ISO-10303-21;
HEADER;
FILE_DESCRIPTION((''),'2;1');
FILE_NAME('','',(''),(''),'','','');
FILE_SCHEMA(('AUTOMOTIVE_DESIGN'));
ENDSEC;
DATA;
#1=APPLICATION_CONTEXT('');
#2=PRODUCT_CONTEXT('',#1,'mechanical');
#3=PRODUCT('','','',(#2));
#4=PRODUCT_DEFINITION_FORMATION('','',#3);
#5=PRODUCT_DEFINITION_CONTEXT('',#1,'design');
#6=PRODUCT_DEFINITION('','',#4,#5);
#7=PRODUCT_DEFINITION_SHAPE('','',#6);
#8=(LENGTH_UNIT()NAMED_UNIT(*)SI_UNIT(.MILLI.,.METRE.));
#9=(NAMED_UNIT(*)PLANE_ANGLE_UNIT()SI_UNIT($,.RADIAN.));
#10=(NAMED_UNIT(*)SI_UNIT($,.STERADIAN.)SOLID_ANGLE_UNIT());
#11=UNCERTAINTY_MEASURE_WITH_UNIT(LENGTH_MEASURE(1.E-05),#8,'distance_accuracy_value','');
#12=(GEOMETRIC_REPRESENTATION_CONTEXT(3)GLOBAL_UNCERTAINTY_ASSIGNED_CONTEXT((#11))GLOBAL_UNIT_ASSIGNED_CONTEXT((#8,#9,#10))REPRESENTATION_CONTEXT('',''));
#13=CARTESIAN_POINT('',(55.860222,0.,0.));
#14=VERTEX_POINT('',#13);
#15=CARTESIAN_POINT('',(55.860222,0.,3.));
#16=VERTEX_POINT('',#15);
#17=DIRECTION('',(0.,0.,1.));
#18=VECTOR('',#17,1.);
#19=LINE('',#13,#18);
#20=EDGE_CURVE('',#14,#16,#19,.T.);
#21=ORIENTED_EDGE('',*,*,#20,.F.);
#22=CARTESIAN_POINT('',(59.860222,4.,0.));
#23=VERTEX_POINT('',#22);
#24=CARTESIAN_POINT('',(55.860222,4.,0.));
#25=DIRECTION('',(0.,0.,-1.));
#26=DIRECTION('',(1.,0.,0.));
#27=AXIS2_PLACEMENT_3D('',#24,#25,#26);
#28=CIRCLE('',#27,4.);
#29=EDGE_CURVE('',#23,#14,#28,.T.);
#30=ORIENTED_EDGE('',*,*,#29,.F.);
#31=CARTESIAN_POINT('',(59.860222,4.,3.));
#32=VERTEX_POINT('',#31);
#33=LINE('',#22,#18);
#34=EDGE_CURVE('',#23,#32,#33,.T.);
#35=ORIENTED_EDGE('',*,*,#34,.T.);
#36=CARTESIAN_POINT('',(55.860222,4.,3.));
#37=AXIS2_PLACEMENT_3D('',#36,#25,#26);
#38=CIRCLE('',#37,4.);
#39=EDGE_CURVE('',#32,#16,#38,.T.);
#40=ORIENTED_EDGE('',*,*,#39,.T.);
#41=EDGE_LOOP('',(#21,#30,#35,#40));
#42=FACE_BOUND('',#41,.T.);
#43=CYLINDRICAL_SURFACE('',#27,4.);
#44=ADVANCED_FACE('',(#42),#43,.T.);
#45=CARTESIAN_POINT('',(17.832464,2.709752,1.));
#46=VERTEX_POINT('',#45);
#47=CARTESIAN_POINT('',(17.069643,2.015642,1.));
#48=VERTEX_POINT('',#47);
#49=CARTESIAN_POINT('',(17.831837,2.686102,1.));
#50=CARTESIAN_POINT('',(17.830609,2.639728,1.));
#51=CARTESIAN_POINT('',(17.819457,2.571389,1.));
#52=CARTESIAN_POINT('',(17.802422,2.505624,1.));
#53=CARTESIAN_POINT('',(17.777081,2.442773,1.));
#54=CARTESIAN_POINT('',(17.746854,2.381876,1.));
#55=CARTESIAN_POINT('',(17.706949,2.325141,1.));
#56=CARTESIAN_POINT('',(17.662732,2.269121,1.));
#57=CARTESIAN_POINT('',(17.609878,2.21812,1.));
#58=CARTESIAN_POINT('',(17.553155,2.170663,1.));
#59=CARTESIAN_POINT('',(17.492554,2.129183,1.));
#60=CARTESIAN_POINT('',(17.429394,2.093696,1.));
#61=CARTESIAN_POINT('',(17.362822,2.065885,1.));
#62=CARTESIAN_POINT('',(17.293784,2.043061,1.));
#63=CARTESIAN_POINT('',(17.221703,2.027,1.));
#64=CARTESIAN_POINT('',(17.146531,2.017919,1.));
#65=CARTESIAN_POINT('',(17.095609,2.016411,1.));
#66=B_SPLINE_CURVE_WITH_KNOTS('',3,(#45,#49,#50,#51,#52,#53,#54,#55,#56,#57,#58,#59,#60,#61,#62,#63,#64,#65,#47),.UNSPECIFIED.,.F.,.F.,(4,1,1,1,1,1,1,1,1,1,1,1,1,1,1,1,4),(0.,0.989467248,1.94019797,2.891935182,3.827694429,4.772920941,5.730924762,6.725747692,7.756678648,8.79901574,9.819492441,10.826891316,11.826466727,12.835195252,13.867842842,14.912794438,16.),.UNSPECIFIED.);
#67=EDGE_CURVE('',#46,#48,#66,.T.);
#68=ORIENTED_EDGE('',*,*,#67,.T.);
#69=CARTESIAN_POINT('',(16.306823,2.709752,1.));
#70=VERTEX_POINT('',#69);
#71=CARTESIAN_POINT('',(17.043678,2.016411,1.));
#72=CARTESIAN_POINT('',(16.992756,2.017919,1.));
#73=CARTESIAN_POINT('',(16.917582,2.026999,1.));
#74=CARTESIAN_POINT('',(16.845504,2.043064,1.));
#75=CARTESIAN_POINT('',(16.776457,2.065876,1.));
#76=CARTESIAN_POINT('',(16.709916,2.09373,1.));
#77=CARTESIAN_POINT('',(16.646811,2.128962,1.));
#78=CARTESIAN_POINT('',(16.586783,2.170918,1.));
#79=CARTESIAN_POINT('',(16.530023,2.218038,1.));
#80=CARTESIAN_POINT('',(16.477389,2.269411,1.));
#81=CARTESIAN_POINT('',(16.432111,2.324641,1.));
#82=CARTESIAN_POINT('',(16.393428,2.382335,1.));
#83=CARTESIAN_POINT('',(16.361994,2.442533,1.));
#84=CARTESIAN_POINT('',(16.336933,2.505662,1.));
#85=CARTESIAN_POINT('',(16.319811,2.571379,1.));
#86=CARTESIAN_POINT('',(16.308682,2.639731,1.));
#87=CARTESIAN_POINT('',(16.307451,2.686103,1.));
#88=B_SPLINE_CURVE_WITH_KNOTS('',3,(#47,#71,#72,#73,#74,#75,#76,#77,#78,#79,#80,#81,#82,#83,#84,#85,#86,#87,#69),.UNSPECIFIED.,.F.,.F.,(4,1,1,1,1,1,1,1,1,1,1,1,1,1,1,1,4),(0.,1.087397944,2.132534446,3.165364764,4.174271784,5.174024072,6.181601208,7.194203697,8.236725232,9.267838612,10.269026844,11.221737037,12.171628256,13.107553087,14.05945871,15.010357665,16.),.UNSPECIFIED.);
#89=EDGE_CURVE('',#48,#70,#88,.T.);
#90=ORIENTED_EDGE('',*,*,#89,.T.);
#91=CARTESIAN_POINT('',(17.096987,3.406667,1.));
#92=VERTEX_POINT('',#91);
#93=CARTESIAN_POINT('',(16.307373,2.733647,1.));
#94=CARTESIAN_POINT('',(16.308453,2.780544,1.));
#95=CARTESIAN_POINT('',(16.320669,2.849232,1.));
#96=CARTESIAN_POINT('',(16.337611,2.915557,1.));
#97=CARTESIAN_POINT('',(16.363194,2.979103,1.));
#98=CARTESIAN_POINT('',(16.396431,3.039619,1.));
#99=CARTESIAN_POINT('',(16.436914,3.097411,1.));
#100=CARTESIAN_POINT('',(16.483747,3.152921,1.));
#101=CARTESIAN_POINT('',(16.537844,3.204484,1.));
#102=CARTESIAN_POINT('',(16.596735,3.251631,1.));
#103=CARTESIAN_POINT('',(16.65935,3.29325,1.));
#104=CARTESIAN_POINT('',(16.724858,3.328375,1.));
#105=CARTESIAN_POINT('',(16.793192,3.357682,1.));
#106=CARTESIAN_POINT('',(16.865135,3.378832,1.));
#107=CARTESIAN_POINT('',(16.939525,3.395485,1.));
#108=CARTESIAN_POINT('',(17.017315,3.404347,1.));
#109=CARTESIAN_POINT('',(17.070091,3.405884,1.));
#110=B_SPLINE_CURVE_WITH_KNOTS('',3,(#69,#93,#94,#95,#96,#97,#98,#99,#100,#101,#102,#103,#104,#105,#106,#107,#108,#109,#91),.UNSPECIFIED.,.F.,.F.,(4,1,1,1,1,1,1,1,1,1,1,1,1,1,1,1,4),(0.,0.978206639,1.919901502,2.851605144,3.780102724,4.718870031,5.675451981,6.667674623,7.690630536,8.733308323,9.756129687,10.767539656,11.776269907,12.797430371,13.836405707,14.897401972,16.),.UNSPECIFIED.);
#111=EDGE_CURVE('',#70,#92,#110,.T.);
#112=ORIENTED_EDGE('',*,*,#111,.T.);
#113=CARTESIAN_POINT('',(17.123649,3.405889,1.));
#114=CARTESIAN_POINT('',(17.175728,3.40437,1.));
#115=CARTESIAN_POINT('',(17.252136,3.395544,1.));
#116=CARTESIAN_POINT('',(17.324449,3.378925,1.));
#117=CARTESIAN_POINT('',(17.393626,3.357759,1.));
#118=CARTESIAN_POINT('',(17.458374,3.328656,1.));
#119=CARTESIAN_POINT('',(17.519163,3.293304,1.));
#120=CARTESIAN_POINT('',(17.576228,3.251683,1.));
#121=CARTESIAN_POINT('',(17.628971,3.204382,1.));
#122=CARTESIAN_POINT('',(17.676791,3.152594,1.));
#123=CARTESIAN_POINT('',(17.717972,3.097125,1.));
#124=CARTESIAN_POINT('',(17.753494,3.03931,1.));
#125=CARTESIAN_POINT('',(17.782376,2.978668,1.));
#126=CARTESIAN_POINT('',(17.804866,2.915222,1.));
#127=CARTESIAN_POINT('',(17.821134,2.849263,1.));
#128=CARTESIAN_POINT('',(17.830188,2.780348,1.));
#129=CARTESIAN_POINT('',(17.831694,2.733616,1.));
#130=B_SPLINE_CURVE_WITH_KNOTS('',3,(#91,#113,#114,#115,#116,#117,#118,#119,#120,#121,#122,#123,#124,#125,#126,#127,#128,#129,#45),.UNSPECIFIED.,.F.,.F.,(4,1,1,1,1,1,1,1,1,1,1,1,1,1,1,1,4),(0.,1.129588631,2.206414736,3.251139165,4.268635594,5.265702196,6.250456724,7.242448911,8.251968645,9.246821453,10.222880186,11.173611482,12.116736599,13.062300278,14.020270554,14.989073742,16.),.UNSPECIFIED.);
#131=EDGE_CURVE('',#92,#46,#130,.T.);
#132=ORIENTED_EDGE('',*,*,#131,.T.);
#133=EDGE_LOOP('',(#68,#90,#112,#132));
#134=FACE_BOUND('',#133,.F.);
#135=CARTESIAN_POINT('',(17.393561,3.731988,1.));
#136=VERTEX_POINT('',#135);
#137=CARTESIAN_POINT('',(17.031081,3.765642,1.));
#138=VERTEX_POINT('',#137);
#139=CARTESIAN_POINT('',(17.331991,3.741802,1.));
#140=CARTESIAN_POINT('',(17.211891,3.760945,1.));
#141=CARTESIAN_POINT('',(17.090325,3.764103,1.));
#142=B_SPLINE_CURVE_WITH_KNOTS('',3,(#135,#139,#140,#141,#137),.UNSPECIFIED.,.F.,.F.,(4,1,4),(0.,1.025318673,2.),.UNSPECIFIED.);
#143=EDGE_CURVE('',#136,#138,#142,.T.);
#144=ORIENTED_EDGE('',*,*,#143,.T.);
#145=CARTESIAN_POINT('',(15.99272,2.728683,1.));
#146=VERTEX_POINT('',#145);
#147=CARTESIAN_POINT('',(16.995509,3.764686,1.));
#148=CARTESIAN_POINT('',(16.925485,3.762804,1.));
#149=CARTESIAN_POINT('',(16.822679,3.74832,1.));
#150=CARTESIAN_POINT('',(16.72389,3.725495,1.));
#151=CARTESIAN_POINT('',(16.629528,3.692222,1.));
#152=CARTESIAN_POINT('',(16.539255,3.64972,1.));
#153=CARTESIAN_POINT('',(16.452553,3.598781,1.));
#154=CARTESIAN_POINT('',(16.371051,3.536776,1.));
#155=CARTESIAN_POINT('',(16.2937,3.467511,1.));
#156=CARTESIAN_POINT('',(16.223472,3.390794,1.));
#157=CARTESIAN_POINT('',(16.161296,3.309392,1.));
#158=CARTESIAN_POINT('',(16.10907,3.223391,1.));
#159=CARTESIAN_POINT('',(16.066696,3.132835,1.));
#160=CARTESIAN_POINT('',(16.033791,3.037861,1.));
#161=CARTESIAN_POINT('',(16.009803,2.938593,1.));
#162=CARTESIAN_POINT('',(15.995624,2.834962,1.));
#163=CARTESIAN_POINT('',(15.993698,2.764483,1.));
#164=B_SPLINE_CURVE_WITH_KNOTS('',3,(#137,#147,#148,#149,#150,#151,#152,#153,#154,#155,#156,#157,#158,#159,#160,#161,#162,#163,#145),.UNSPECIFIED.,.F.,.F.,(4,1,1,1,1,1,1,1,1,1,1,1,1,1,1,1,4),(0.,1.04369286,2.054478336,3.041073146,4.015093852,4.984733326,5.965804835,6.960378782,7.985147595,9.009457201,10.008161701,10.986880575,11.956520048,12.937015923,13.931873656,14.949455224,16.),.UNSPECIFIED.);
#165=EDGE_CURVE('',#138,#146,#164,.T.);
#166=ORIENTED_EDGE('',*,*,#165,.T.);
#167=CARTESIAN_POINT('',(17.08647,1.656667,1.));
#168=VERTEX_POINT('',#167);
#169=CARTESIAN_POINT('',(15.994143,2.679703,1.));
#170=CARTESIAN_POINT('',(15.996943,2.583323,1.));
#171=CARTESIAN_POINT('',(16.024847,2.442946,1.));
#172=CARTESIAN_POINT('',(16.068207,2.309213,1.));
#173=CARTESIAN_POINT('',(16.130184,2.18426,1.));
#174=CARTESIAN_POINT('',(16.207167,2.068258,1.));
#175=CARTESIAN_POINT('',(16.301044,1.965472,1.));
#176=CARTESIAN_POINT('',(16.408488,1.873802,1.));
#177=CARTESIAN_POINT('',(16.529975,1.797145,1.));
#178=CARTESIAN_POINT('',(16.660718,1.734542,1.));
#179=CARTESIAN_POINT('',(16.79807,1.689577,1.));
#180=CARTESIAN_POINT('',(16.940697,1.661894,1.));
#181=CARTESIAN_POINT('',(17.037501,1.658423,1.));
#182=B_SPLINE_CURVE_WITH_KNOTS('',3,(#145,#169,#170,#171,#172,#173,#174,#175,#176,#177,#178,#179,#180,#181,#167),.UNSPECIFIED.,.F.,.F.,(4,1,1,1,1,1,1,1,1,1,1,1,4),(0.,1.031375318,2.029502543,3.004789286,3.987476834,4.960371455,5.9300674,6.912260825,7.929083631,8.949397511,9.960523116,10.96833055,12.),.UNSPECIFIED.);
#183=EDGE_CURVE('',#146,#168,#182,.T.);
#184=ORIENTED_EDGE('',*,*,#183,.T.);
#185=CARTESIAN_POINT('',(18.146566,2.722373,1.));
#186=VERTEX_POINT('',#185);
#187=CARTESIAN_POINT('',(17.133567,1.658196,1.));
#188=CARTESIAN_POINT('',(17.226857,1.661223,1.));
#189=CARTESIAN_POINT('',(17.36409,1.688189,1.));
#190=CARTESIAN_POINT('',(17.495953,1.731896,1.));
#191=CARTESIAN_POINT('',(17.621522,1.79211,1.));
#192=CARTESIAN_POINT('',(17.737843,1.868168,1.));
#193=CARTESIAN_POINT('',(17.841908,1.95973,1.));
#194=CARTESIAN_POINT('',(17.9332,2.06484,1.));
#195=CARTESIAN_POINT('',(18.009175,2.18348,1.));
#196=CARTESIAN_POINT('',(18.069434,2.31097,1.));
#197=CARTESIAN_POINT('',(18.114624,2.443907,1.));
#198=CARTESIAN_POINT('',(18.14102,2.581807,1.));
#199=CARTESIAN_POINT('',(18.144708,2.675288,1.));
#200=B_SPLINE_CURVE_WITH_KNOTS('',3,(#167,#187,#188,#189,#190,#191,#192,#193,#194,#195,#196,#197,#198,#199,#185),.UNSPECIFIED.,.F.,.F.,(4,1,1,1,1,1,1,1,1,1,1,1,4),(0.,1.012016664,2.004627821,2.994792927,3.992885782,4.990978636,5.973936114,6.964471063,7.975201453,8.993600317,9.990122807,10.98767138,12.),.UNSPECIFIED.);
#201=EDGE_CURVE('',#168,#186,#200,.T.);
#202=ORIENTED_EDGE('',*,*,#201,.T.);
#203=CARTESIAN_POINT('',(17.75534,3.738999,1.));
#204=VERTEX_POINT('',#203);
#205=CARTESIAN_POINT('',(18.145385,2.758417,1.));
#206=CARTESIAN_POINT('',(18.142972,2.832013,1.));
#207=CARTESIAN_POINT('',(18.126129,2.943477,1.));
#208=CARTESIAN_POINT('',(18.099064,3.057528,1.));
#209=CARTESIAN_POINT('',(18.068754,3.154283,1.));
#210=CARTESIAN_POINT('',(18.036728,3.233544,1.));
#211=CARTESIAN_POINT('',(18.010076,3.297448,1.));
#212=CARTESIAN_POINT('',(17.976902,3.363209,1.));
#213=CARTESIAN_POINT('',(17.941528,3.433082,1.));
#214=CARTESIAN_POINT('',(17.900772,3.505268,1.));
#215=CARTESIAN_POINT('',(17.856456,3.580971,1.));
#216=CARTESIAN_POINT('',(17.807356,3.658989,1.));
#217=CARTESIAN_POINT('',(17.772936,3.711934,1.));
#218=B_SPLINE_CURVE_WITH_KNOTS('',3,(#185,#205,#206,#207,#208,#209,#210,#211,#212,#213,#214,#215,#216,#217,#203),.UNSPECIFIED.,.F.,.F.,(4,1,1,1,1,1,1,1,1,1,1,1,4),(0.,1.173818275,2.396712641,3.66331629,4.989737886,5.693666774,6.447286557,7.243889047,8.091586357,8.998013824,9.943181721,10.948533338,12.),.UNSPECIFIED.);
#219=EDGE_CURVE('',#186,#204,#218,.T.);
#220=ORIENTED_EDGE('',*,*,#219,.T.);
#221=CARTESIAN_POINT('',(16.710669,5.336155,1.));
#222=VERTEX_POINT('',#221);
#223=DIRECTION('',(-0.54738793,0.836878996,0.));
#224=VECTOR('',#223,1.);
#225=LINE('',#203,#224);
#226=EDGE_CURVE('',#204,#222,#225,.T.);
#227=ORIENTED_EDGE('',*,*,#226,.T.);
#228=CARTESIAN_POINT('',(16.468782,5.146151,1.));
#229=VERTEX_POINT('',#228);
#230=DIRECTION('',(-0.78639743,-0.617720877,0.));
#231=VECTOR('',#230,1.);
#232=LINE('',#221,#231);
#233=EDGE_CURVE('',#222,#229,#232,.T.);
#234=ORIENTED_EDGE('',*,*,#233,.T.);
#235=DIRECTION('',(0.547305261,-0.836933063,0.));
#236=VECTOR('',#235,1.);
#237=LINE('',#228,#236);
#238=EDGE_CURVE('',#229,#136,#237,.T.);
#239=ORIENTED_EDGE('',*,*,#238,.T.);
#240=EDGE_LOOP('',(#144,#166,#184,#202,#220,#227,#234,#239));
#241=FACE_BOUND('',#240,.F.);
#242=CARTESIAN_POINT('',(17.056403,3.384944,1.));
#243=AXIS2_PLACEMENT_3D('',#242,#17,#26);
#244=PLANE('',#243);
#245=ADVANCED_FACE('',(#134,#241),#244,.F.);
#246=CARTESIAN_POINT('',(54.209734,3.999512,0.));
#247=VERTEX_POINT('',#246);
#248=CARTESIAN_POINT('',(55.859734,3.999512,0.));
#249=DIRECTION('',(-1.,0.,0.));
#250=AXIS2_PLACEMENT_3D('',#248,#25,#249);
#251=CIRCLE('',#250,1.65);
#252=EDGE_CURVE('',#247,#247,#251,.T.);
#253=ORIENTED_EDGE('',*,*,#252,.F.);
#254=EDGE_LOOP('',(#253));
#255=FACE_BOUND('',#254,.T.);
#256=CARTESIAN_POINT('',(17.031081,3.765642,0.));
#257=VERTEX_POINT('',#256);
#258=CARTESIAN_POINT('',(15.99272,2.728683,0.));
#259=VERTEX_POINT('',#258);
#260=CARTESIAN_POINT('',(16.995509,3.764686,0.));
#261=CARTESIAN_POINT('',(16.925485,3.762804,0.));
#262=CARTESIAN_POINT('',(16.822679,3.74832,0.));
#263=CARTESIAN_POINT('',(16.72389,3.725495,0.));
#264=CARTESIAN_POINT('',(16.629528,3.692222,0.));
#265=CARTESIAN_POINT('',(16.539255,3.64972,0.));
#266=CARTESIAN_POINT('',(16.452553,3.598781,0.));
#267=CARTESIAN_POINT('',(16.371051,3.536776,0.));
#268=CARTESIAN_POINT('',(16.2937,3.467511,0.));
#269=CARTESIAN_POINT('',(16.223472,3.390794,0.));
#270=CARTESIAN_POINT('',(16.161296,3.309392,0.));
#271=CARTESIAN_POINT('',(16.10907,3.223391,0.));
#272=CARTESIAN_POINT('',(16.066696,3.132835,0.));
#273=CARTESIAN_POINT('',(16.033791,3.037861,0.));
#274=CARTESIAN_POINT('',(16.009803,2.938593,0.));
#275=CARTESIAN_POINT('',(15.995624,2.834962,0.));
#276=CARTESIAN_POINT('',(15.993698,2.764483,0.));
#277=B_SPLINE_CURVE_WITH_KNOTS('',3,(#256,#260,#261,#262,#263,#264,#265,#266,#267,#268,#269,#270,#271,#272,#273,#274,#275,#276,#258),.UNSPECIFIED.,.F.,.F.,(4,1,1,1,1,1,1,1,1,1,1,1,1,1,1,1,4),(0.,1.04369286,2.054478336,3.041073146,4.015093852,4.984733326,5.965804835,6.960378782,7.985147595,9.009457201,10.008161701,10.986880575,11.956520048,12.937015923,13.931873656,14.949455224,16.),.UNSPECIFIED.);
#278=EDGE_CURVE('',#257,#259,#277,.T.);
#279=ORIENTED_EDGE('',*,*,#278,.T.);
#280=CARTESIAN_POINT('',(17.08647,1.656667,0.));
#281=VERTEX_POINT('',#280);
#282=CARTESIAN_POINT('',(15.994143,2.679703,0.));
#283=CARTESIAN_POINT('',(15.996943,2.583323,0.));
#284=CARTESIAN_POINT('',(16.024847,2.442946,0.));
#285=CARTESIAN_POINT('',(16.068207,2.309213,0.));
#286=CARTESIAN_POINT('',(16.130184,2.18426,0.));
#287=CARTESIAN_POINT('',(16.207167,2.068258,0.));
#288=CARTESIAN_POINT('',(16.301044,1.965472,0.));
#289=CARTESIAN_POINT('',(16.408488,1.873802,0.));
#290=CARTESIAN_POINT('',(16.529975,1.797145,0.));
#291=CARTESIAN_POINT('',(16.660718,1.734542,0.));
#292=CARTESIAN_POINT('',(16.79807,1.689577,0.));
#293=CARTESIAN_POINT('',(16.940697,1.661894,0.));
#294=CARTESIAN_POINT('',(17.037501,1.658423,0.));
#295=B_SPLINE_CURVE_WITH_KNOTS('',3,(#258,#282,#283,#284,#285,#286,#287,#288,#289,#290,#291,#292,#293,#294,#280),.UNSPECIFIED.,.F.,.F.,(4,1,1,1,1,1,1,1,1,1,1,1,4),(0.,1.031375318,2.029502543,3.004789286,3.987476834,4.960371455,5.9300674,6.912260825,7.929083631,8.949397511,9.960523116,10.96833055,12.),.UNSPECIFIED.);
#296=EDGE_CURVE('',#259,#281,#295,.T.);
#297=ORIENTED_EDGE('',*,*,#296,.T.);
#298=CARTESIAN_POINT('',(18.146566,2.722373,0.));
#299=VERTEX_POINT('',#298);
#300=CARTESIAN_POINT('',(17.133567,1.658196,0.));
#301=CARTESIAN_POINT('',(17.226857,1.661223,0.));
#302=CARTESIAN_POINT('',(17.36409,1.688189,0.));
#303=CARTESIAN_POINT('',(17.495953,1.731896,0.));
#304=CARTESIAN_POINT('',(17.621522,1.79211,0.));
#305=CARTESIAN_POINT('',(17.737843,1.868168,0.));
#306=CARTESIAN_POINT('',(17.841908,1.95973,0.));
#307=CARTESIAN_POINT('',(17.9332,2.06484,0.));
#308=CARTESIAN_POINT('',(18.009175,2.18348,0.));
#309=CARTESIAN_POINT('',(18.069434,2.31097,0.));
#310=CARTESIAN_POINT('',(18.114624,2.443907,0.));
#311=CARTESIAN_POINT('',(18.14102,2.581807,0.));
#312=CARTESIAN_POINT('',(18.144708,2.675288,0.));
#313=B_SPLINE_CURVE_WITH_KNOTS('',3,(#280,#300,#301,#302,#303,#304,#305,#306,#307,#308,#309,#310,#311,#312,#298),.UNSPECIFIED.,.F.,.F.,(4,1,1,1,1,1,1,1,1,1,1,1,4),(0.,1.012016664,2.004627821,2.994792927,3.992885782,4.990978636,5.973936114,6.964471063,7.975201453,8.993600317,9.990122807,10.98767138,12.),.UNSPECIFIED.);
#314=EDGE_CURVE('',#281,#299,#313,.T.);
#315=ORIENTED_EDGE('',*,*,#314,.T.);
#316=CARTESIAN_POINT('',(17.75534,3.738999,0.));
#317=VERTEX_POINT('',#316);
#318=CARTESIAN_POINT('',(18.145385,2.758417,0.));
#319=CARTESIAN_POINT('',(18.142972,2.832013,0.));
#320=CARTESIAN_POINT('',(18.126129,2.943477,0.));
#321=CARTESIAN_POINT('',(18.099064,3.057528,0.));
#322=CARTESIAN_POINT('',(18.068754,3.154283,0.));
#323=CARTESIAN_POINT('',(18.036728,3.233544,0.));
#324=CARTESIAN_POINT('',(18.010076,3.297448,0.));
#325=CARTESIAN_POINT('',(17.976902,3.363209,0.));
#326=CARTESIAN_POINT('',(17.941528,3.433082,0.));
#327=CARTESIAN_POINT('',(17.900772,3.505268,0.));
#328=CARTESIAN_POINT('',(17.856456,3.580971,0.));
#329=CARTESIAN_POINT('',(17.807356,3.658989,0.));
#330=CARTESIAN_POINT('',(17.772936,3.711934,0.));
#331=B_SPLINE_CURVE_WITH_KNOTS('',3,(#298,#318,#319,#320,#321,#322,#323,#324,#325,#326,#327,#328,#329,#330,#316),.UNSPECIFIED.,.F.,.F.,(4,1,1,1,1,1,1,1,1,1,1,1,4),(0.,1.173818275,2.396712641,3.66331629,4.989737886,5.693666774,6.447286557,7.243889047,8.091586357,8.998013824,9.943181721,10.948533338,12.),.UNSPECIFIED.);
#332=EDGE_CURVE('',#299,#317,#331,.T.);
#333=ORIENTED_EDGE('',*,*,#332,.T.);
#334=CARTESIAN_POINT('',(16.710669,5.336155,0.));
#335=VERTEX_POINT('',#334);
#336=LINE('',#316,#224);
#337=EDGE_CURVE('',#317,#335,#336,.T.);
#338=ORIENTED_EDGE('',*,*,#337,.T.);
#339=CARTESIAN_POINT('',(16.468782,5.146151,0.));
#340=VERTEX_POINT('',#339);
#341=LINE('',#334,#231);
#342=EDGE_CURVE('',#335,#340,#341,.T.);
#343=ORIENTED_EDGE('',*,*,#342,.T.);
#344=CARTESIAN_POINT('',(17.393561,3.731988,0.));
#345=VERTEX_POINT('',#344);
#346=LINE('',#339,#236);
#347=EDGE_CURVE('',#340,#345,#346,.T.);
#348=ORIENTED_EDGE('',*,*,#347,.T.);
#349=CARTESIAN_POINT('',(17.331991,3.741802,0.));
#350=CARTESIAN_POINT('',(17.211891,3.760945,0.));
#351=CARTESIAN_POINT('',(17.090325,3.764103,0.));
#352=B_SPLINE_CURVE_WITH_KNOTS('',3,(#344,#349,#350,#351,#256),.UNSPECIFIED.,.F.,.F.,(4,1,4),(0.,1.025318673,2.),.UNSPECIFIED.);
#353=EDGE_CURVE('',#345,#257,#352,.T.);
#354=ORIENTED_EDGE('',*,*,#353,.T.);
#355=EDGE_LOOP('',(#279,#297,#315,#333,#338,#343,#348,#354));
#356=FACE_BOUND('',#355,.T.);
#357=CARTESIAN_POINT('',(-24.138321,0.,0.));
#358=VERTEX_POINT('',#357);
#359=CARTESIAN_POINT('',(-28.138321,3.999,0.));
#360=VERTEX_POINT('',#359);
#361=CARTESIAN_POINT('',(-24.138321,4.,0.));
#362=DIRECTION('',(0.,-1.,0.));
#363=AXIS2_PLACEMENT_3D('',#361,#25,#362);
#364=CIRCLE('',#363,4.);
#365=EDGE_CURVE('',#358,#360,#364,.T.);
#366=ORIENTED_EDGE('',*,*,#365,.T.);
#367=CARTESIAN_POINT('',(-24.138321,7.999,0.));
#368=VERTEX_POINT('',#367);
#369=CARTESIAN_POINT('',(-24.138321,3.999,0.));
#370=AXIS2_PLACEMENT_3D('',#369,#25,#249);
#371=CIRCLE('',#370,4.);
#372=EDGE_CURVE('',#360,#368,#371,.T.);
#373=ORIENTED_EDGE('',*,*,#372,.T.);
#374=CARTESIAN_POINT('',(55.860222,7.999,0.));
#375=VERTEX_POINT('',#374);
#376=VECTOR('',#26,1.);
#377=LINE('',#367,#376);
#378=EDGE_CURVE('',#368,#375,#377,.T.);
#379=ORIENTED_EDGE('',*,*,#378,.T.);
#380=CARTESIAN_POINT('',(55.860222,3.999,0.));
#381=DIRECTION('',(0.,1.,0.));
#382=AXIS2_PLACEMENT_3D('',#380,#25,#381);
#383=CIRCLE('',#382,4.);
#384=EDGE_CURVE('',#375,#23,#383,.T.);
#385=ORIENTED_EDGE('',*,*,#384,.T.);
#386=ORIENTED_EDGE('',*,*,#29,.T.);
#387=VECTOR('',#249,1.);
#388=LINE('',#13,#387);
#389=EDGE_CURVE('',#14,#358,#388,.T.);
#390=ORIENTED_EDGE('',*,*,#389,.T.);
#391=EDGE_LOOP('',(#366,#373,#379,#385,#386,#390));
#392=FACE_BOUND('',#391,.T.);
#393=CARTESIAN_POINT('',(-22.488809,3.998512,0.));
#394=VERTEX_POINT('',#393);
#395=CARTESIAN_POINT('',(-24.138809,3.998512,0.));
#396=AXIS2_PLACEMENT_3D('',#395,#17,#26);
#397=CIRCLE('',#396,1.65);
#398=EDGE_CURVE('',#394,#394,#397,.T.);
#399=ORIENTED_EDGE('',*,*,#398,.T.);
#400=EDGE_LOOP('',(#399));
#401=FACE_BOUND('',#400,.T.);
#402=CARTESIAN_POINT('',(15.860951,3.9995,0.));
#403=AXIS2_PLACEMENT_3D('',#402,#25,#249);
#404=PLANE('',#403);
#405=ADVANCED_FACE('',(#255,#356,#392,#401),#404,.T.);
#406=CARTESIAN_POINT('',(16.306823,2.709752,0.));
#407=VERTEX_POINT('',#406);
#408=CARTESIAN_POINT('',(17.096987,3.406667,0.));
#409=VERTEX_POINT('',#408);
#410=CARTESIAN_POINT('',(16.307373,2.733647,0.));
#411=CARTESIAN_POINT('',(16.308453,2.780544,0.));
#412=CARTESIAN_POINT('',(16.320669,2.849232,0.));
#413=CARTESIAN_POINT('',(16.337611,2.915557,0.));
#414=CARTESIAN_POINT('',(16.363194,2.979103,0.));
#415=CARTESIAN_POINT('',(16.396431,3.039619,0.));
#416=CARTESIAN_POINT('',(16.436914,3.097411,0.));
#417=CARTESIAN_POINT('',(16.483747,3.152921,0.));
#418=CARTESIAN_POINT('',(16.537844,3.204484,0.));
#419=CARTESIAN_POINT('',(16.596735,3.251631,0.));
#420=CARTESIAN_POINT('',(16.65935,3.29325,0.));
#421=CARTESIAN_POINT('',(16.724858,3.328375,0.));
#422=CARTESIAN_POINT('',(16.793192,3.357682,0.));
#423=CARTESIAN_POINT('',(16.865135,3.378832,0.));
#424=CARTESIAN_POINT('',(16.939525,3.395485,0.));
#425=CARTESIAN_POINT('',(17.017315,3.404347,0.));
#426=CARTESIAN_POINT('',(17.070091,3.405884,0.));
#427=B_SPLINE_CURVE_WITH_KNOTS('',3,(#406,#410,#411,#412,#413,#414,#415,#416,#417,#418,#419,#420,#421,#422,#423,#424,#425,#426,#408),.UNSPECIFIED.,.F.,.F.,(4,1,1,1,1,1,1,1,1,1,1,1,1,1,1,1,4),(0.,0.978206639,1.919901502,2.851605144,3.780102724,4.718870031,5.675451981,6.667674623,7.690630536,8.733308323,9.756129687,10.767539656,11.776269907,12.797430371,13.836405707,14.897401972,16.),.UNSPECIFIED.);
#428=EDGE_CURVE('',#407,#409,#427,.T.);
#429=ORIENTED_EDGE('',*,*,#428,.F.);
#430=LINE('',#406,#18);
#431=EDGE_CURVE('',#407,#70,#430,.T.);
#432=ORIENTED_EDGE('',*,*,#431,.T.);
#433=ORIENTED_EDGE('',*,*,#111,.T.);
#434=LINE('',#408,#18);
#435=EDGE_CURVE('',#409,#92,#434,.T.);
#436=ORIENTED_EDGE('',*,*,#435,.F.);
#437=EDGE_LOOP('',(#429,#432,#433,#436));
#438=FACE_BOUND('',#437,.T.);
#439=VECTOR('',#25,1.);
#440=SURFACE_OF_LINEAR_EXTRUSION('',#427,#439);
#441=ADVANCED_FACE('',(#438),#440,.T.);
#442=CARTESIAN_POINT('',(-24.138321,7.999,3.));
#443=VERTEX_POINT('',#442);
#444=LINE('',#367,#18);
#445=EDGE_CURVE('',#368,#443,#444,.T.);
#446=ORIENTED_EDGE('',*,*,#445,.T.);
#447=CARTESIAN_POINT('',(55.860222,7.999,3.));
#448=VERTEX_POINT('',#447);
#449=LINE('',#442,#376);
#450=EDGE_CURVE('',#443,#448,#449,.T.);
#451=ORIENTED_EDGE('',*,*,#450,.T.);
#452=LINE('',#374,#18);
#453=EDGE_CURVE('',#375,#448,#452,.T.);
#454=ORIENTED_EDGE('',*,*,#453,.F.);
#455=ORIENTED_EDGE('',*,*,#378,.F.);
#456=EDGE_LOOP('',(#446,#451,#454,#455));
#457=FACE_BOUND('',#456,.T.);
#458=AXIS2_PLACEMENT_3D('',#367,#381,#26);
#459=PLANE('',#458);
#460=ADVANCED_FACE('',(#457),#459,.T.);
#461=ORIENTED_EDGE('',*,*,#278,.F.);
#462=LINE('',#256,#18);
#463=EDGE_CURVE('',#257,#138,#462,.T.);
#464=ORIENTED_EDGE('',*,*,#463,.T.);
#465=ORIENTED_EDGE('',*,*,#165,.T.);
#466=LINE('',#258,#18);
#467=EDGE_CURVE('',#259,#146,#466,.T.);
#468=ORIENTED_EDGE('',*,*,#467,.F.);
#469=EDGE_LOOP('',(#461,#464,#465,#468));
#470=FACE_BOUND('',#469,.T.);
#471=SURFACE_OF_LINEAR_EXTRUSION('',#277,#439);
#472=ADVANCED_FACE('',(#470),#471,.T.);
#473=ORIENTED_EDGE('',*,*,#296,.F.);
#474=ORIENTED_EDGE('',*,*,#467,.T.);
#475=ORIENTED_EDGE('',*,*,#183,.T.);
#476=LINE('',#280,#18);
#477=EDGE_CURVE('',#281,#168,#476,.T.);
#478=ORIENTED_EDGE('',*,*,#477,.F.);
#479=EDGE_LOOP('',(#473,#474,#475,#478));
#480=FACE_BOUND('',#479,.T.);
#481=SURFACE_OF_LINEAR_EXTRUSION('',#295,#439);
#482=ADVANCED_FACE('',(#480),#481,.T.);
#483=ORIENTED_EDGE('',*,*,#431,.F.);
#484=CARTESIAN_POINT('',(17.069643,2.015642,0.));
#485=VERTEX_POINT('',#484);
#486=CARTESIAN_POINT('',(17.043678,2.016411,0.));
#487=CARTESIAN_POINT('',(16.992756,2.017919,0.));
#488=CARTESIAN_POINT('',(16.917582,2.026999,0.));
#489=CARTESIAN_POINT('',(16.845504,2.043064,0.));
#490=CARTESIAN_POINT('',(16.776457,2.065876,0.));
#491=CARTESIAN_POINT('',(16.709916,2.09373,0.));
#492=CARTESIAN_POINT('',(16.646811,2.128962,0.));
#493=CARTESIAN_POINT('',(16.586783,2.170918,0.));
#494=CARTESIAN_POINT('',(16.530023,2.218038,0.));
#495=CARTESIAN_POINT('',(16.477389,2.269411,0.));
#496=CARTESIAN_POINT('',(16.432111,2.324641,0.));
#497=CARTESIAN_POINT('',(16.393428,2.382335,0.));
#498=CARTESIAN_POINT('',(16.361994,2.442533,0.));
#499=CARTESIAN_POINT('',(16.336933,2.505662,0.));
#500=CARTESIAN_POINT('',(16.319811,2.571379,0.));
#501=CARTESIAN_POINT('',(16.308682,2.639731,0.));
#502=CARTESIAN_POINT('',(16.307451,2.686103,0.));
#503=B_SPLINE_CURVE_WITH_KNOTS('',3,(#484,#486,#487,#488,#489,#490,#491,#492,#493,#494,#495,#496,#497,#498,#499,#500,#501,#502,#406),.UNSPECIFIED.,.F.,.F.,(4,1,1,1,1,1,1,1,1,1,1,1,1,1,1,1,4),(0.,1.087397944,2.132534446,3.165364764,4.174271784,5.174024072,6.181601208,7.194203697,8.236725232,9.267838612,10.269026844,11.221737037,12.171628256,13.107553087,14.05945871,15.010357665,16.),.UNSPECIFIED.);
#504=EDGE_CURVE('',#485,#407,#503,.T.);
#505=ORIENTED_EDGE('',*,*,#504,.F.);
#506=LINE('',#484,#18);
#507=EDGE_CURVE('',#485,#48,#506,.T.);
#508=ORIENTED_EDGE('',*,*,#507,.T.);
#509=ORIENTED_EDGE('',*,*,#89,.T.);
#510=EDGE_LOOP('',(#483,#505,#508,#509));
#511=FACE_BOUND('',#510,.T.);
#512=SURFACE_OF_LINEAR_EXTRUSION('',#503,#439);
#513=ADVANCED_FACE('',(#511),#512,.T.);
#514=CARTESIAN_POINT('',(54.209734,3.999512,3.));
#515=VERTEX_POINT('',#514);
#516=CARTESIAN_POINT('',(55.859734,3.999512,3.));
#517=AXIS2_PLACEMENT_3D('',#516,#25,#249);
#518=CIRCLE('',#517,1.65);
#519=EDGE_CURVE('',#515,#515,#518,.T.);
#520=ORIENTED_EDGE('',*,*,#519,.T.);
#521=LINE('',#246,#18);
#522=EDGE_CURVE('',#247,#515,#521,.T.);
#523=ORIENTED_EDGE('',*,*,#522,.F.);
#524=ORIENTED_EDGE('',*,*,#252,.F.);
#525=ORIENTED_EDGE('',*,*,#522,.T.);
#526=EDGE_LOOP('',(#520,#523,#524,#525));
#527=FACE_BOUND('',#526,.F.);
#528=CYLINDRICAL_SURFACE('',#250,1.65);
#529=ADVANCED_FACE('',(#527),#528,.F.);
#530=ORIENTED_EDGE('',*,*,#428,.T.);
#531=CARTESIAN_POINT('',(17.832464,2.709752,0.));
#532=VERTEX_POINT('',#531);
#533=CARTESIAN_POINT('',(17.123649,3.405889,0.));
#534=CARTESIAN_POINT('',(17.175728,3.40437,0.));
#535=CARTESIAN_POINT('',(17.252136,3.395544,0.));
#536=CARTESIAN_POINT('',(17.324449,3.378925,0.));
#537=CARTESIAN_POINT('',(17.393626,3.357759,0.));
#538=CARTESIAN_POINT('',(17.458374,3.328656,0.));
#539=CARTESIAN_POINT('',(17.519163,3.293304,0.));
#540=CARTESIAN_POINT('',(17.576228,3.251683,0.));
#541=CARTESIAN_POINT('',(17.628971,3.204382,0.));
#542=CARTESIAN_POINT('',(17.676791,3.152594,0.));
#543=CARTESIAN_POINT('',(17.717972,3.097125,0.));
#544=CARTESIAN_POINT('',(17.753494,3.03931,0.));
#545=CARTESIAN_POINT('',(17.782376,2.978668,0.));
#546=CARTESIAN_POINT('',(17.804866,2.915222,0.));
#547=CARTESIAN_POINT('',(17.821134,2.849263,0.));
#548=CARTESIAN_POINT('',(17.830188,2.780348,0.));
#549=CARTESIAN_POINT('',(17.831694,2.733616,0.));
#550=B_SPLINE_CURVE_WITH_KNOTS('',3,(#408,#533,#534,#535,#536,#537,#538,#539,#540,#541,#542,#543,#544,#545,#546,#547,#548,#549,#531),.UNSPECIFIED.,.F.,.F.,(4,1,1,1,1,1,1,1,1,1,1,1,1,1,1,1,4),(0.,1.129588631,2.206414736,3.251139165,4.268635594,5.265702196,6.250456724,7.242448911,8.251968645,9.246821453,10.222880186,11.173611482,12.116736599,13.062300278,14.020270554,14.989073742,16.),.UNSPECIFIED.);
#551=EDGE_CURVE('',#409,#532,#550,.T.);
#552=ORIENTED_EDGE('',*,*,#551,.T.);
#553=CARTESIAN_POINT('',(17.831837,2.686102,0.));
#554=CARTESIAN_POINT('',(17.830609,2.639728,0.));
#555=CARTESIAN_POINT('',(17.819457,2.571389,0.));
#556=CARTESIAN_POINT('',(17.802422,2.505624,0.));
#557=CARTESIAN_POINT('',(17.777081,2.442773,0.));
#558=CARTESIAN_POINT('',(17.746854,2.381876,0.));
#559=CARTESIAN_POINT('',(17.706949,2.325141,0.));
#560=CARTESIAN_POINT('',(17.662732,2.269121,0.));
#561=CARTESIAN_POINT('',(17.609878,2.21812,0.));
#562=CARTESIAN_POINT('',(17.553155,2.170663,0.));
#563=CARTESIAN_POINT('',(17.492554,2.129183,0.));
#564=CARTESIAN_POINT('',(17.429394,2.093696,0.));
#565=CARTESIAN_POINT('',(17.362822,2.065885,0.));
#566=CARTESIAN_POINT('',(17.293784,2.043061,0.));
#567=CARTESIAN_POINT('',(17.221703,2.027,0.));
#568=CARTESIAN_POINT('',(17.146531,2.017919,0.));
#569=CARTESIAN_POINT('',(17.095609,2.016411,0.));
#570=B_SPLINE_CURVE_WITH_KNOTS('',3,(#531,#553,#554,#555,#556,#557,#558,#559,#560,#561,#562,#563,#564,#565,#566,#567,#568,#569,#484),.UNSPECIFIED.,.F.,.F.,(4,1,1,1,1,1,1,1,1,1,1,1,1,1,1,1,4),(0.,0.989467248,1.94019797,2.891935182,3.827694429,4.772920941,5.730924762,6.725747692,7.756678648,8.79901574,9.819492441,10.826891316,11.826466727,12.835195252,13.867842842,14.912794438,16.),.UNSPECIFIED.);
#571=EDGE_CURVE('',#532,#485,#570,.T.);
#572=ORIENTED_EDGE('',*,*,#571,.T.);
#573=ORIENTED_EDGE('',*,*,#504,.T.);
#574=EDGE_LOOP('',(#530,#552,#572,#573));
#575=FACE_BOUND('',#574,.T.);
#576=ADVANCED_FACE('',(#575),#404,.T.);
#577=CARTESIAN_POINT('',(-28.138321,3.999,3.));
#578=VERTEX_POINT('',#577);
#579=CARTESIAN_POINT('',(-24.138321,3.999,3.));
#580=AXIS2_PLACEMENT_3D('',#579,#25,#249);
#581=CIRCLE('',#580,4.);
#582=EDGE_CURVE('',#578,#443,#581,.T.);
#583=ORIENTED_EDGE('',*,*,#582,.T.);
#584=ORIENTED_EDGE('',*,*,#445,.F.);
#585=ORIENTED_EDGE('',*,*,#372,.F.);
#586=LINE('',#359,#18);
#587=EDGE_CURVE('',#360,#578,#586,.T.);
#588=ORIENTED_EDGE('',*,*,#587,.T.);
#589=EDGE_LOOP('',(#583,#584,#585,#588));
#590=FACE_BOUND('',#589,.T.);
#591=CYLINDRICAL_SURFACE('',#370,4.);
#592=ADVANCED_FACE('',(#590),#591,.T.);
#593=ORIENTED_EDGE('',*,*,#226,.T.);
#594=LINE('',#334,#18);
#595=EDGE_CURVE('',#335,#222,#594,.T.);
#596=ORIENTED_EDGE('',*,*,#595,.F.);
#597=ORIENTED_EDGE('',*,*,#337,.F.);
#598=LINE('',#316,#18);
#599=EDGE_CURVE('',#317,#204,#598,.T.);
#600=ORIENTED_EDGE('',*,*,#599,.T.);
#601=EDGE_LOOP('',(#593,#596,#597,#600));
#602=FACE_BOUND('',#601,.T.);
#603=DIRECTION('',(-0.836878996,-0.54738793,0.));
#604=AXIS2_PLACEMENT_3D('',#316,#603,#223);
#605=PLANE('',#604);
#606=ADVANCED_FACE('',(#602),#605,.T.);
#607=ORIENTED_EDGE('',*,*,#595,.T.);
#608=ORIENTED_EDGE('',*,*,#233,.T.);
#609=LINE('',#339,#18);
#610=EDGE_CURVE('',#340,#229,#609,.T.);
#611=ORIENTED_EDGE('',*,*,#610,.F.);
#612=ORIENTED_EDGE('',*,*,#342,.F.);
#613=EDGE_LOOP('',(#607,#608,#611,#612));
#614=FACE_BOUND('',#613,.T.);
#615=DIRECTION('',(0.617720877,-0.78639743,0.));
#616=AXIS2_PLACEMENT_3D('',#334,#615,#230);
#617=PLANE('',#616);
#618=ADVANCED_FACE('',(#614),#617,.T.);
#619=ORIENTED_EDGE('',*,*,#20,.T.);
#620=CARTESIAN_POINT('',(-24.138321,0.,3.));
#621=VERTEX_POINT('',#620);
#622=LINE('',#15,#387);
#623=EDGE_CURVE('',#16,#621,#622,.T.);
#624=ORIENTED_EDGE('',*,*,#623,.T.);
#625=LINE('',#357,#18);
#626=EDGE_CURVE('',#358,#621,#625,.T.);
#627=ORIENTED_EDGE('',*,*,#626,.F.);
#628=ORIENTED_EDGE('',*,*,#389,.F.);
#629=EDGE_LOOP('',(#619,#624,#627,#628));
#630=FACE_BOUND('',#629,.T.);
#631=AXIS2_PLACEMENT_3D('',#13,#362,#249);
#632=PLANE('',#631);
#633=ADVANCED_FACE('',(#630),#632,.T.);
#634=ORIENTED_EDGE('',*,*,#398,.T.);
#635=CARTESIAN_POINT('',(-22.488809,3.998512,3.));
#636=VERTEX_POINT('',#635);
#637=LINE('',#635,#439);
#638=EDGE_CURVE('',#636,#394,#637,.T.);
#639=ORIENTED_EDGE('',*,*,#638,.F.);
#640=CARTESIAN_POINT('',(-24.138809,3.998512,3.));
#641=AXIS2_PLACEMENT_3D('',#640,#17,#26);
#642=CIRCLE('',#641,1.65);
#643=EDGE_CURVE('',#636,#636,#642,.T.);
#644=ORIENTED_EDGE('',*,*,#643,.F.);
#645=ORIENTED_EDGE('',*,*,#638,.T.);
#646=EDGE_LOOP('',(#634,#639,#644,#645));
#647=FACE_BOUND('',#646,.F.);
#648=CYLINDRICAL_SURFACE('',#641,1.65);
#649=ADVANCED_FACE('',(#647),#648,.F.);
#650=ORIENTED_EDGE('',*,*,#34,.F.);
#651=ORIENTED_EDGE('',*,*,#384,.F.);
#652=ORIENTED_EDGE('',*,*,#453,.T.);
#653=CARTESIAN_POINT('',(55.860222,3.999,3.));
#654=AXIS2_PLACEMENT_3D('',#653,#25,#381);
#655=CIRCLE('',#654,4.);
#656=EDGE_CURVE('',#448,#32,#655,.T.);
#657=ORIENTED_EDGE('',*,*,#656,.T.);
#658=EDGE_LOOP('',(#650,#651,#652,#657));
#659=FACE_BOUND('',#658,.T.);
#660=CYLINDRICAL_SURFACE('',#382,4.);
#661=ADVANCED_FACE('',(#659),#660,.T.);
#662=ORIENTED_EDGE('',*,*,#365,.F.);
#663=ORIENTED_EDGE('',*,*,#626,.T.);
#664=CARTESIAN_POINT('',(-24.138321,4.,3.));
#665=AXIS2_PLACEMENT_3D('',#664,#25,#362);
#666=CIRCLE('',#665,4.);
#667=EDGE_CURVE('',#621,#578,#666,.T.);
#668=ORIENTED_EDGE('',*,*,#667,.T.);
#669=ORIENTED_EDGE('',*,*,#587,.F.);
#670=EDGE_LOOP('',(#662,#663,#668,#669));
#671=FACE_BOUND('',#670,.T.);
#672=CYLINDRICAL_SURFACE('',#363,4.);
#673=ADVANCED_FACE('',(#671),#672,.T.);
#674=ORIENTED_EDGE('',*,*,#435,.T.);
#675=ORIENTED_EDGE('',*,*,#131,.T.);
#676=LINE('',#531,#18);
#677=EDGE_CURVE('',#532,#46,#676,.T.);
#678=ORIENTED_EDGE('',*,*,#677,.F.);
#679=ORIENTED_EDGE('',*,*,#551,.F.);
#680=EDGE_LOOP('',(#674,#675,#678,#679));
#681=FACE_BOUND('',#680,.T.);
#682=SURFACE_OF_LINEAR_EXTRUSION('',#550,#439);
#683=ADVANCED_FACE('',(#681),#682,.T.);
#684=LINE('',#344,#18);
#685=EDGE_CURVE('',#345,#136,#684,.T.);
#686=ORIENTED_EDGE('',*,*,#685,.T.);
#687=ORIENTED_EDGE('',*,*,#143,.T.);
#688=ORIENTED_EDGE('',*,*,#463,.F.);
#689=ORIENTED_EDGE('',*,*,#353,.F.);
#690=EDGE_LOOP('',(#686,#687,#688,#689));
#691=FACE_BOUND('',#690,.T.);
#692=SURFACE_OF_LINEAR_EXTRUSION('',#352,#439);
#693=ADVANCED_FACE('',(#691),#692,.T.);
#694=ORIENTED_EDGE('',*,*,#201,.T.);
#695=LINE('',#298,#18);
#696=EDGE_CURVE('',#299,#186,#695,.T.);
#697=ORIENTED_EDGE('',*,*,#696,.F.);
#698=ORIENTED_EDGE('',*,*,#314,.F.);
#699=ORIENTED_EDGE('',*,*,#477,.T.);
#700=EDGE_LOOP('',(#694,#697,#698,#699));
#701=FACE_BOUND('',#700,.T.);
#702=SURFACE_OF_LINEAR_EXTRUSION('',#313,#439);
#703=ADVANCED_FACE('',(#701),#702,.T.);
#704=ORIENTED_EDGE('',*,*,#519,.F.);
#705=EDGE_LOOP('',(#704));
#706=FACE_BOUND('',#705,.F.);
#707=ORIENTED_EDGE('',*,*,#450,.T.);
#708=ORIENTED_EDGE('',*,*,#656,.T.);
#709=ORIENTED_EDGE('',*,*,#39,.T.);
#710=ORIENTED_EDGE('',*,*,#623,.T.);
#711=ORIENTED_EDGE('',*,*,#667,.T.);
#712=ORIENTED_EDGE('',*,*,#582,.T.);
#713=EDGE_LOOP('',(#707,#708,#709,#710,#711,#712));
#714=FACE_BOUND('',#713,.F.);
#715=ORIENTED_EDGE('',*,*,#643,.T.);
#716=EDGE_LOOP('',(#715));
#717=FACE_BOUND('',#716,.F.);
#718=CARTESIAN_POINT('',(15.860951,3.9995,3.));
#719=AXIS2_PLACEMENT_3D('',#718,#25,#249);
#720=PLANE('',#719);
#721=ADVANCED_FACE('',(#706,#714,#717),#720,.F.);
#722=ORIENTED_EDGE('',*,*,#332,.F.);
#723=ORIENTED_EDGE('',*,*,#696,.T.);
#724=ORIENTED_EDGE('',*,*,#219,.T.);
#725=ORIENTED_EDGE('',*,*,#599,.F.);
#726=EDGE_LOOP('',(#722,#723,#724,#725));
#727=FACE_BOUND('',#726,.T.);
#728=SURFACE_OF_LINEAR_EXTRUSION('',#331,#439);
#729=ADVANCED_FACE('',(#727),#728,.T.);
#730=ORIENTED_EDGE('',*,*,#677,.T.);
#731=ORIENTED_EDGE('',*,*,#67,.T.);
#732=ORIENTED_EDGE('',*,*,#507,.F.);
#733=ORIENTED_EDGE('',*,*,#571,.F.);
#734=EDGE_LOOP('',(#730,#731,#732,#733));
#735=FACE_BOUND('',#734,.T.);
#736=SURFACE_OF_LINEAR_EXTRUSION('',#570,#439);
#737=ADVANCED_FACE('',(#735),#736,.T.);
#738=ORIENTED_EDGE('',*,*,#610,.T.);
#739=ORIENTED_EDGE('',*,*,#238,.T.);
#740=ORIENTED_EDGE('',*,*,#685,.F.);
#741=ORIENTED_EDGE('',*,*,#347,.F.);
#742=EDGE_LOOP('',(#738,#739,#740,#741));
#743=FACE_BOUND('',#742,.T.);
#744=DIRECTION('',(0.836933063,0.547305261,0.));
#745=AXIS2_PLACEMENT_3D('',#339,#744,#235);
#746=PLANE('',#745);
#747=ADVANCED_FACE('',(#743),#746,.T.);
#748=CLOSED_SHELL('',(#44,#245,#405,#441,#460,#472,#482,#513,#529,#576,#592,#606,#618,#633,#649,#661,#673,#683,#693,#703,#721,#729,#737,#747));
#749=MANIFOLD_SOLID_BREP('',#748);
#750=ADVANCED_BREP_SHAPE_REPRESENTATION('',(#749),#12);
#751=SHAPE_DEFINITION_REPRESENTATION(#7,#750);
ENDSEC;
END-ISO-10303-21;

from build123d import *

# Parameters (mm, degrees)
SKETCH_1_R          = 1.3
SKETCH_1_R_2        = 1.65
EXTRUDE_1_DEPTH     = 3
SKETCH_2_R          = 1.65
CUT_EXTRUDE_1_DEPTH = 61.466769186
CUT_EXTRUDE_2_DEPTH = 1


with BuildPart() as part:
    # 草图1 → 凸台-拉伸1 (new body)
    with BuildSketch(Plane(origin=(0, 0, 0), x_dir=(-1, 0, 0), z_dir=(0, 0, -1))):
        with BuildLine():
            Line((-55.860221974, 0), (24.13832066, 0))
            ThreePointArc((24.13832066, 0), (26.966394209, 1.171219344), (28.138320535, 3.999))
            ThreePointArc((28.138320535, 3.999), (26.96674766, 6.827427125), (24.138320535, 7.999))
            Line((24.138320535, 7.999), (-55.860222099, 7.999))
            ThreePointArc((-55.860222099, 7.999), (-58.688295648, 6.827780656), (-59.860221974, 4))
            ThreePointArc((-59.860221974, 4), (-58.688649099, 1.171572875), (-55.860221974, 0))
        make_face()
        with Locations((24.138809001, 3.998511534)):
            Circle(SKETCH_1_R, mode=Mode.SUBTRACT)
        with Locations((-55.859733508, 3.999511534)):
            Circle(SKETCH_1_R_2, mode=Mode.SUBTRACT)
    extrude(amount=-EXTRUDE_1_DEPTH)

    # 草图2 → 切除-拉伸1 (cut, through all)
    with BuildSketch(Plane.XY.offset(3)):
        with Locations((-24.138809001, 3.998511534)):
            Circle(SKETCH_2_R)
    extrude(amount=-CUT_EXTRUDE_1_DEPTH, mode=Mode.SUBTRACT)

    # 草图3 → 切除-拉伸2 (cut)
    with BuildSketch(Plane(origin=(0, 0, 0), x_dir=(-1, 0, 0), z_dir=(0, 0, -1))):
        with BuildLine():
            Line((-16.710668713, 5.336154662), (-16.468781693, 5.146150656))
            Line((-16.468781693, 5.146150656), (-17.393561341, 3.731987996))
            add(Edge.make_bspline(
                [(-17.393561341, 3.731987996), (-17.331991064, 3.741801856), (-17.211891277, 3.760944901), (-17.090325379, 3.764102847), (-17.031081373, 3.765641842)],
                knots=[0, 0, 0, 0, 1.025318673, 2, 2, 2, 2], degree=3))
            add(Edge.make_bspline(
                [(-17.031081373, 3.765641842), (-16.995508877, 3.76468573), (-16.925485476, 3.762803653), (-16.822678674, 3.748319802), (-16.723889738, 3.72549469), (-16.629528126, 3.692222434), (-16.539255144, 3.64972008), (-16.452552748, 3.59878121), (-16.371050738, 3.536775529), (-16.293699558, 3.467510573), (-16.223472461, 3.390793589), (-16.161296405, 3.309392252), (-16.109069614, 3.223391371), (-16.066695692, 3.132834505), (-16.033790813, 3.037861246), (-16.009803168, 2.938593106), (-15.995623576, 2.834961635), (-15.993698085, 2.76448346), (-15.992719995, 2.728682707)],
                knots=[0, 0, 0, 0, 1.04369286, 2.054478336, 3.041073146, 4.015093852, 4.984733326, 5.965804835, 6.960378782, 7.985147595, 9.009457201, 10.008161701, 10.986880575, 11.956520048, 12.937015923, 13.931873656, 14.949455224, 16, 16, 16, 16], degree=3))
            add(Edge.make_bspline(
                [(-15.992719995, 2.728682707), (-15.9941431, 2.679703003), (-15.996943433, 2.583322537), (-16.024847229, 2.442945831), (-16.068206874, 2.309213315), (-16.130184402, 2.184260144), (-16.207166785, 2.068257574), (-16.301044378, 1.965472109), (-16.408487866, 1.873802072), (-16.529974665, 1.797145453), (-16.660717629, 1.734542402), (-16.798069626, 1.689577159), (-16.940696772, 1.66189369), (-17.03750138, 1.658423087), (-17.086469995, 1.656667483)],
                knots=[0, 0, 0, 0, 1.031375318, 2.029502543, 3.004789286, 3.987476834, 4.960371455, 5.9300674, 6.912260825, 7.929083631, 8.949397511, 9.960523116, 10.96833055, 12, 12, 12, 12], degree=3))
            add(Edge.make_bspline(
                [(-17.086469995, 1.656667483), (-17.133566695, 1.658195689), (-17.226857013, 1.661222797), (-17.364089808, 1.688188735), (-17.495952825, 1.731895837), (-17.621522206, 1.792110116), (-17.737842819, 1.868167999), (-17.841908455, 1.959730278), (-17.93320023, 2.064839743), (-18.009174851, 2.18348009), (-18.069433583, 2.310970048), (-18.114623508, 2.443907204), (-18.141019751, 2.581807186), (-18.144708308, 2.675288325), (-18.146566149, 2.722372611)],
                knots=[0, 0, 0, 0, 1.012016664, 2.004627821, 2.994792927, 3.992885782, 4.990978636, 5.973936114, 6.964471063, 7.975201453, 8.993600317, 9.990122807, 10.98767138, 12, 12, 12, 12], degree=3))
            add(Edge.make_bspline(
                [(-18.146566149, 2.722372611), (-18.145384704, 2.758417194), (-18.142972419, 2.832013346), (-18.126129028, 2.943477374), (-18.099064233, 3.057528456), (-18.068753987, 3.15428265), (-18.036728377, 3.233544172), (-18.010075837, 3.297447662), (-17.976901841, 3.363208735), (-17.94152846, 3.433082371), (-17.900771591, 3.505267804), (-17.856455942, 3.580971474), (-17.807356291, 3.658989401), (-17.772936128, 3.711933596), (-17.755340187, 3.738999214)],
                knots=[0, 0, 0, 0, 1.173818275, 2.396712641, 3.66331629, 4.989737886, 5.693666774, 6.447286557, 7.243889047, 8.091586357, 8.998013824, 9.943181721, 10.948533338, 12, 12, 12, 12], degree=3))
            Line((-17.755340187, 3.738999214), (-16.710668713, 5.336154662))
        make_face()
        with BuildLine():
            add(Edge.make_bspline(
                [(-17.096986822, 3.406667483), (-17.123649066, 3.405889439), (-17.175728176, 3.404369694), (-17.252135591, 3.395544442), (-17.324448842, 3.378925376), (-17.393625976, 3.357759044), (-17.458373679, 3.328655985), (-17.519162518, 3.293304186), (-17.57622757, 3.251683008), (-17.628971122, 3.204382096), (-17.676790785, 3.152594064), (-17.717971916, 3.097124541), (-17.753494316, 3.039310338), (-17.782376135, 2.978668396), (-17.804866211, 2.915221896), (-17.821134462, 2.849262647), (-17.830188213, 2.780348341), (-17.831694444, 2.733615838), (-17.832463584, 2.709752419)],
                knots=[0, 0, 0, 0, 1.129588631, 2.206414736, 3.251139165, 4.268635594, 5.265702196, 6.250456724, 7.242448911, 8.251968645, 9.246821453, 10.222880186, 11.173611482, 12.116736599, 13.062300278, 14.020270554, 14.989073742, 16, 16, 16, 16], degree=3))
            add(Edge.make_bspline(
                [(-17.832463584, 2.709752419), (-17.831837223, 2.686102439), (-17.830609021, 2.639728349), (-17.819456701, 2.57138917), (-17.802421619, 2.505624261), (-17.777081223, 2.442772662), (-17.746854335, 2.381876344), (-17.706949011, 2.325141059), (-17.662732225, 2.269120989), (-17.609878292, 2.218119517), (-17.553154929, 2.170662893), (-17.492553726, 2.12918264), (-17.429393766, 2.093696466), (-17.362822344, 2.065885369), (-17.29378396, 2.043061082), (-17.221703406, 2.026999603), (-17.146530551, 2.017919077), (-17.095608613, 2.016410883), (-17.069643072, 2.015641842)],
                knots=[0, 0, 0, 0, 0.989467248, 1.94019797, 2.891935182, 3.827694429, 4.772920941, 5.730924762, 6.725747692, 7.756678648, 8.79901574, 9.819492441, 10.826891316, 11.826466727, 12.835195252, 13.867842842, 14.912794438, 16, 16, 16, 16], degree=3))
            add(Edge.make_bspline(
                [(-17.069643072, 2.015641842), (-17.043677573, 2.016410943), (-16.992755718, 2.017919255), (-16.917582258, 2.026998924), (-16.84550394, 2.043063572), (-16.776457431, 2.065876342), (-16.709916, 2.093729952), (-16.646811278, 2.128961871), (-16.586783185, 2.170917989), (-16.530022585, 2.218038417), (-16.477388647, 2.269411269), (-16.432111368, 2.324640992), (-16.393428135, 2.382334887), (-16.361993948, 2.442532777), (-16.336932657, 2.505662265), (-16.319811189, 2.571378989), (-16.3086819, 2.639731015), (-16.307450534, 2.686103339), (-16.306822559, 2.709752419)],
                knots=[0, 0, 0, 0, 1.087397944, 2.132534446, 3.165364764, 4.174271784, 5.174024072, 6.181601208, 7.194203697, 8.236725232, 9.267838612, 10.269026844, 11.221737037, 12.171628256, 13.107553087, 14.05945871, 15.010357665, 16, 16, 16, 16], degree=3))
            add(Edge.make_bspline(
                [(-16.306822559, 2.709752419), (-16.307372852, 2.73364697), (-16.308452898, 2.780544202), (-16.320668847, 2.84923182), (-16.33761122, 2.915557027), (-16.363194251, 2.979102976), (-16.396430796, 3.039618903), (-16.436914203, 3.097410504), (-16.483746773, 3.152920851), (-16.537844313, 3.20448366), (-16.596734547, 3.251630737), (-16.659350132, 3.293250294), (-16.724858106, 3.328375271), (-16.793192048, 3.357682373), (-16.865134931, 3.378831847), (-16.93952527, 3.39548509), (-17.017314513, 3.404347108), (-17.070091121, 3.405884173), (-17.096986822, 3.406667483)],
                knots=[0, 0, 0, 0, 0.978206639, 1.919901502, 2.851605144, 3.780102724, 4.718870031, 5.675451981, 6.667674623, 7.690630536, 8.733308323, 9.756129687, 10.767539656, 11.776269907, 12.797430371, 13.836405707, 14.897401972, 16, 16, 16, 16], degree=3))
        make_face(mode=Mode.SUBTRACT)
    extrude(amount=-CUT_EXTRUDE_2_DEPTH, mode=Mode.SUBTRACT)


solid = part.part
